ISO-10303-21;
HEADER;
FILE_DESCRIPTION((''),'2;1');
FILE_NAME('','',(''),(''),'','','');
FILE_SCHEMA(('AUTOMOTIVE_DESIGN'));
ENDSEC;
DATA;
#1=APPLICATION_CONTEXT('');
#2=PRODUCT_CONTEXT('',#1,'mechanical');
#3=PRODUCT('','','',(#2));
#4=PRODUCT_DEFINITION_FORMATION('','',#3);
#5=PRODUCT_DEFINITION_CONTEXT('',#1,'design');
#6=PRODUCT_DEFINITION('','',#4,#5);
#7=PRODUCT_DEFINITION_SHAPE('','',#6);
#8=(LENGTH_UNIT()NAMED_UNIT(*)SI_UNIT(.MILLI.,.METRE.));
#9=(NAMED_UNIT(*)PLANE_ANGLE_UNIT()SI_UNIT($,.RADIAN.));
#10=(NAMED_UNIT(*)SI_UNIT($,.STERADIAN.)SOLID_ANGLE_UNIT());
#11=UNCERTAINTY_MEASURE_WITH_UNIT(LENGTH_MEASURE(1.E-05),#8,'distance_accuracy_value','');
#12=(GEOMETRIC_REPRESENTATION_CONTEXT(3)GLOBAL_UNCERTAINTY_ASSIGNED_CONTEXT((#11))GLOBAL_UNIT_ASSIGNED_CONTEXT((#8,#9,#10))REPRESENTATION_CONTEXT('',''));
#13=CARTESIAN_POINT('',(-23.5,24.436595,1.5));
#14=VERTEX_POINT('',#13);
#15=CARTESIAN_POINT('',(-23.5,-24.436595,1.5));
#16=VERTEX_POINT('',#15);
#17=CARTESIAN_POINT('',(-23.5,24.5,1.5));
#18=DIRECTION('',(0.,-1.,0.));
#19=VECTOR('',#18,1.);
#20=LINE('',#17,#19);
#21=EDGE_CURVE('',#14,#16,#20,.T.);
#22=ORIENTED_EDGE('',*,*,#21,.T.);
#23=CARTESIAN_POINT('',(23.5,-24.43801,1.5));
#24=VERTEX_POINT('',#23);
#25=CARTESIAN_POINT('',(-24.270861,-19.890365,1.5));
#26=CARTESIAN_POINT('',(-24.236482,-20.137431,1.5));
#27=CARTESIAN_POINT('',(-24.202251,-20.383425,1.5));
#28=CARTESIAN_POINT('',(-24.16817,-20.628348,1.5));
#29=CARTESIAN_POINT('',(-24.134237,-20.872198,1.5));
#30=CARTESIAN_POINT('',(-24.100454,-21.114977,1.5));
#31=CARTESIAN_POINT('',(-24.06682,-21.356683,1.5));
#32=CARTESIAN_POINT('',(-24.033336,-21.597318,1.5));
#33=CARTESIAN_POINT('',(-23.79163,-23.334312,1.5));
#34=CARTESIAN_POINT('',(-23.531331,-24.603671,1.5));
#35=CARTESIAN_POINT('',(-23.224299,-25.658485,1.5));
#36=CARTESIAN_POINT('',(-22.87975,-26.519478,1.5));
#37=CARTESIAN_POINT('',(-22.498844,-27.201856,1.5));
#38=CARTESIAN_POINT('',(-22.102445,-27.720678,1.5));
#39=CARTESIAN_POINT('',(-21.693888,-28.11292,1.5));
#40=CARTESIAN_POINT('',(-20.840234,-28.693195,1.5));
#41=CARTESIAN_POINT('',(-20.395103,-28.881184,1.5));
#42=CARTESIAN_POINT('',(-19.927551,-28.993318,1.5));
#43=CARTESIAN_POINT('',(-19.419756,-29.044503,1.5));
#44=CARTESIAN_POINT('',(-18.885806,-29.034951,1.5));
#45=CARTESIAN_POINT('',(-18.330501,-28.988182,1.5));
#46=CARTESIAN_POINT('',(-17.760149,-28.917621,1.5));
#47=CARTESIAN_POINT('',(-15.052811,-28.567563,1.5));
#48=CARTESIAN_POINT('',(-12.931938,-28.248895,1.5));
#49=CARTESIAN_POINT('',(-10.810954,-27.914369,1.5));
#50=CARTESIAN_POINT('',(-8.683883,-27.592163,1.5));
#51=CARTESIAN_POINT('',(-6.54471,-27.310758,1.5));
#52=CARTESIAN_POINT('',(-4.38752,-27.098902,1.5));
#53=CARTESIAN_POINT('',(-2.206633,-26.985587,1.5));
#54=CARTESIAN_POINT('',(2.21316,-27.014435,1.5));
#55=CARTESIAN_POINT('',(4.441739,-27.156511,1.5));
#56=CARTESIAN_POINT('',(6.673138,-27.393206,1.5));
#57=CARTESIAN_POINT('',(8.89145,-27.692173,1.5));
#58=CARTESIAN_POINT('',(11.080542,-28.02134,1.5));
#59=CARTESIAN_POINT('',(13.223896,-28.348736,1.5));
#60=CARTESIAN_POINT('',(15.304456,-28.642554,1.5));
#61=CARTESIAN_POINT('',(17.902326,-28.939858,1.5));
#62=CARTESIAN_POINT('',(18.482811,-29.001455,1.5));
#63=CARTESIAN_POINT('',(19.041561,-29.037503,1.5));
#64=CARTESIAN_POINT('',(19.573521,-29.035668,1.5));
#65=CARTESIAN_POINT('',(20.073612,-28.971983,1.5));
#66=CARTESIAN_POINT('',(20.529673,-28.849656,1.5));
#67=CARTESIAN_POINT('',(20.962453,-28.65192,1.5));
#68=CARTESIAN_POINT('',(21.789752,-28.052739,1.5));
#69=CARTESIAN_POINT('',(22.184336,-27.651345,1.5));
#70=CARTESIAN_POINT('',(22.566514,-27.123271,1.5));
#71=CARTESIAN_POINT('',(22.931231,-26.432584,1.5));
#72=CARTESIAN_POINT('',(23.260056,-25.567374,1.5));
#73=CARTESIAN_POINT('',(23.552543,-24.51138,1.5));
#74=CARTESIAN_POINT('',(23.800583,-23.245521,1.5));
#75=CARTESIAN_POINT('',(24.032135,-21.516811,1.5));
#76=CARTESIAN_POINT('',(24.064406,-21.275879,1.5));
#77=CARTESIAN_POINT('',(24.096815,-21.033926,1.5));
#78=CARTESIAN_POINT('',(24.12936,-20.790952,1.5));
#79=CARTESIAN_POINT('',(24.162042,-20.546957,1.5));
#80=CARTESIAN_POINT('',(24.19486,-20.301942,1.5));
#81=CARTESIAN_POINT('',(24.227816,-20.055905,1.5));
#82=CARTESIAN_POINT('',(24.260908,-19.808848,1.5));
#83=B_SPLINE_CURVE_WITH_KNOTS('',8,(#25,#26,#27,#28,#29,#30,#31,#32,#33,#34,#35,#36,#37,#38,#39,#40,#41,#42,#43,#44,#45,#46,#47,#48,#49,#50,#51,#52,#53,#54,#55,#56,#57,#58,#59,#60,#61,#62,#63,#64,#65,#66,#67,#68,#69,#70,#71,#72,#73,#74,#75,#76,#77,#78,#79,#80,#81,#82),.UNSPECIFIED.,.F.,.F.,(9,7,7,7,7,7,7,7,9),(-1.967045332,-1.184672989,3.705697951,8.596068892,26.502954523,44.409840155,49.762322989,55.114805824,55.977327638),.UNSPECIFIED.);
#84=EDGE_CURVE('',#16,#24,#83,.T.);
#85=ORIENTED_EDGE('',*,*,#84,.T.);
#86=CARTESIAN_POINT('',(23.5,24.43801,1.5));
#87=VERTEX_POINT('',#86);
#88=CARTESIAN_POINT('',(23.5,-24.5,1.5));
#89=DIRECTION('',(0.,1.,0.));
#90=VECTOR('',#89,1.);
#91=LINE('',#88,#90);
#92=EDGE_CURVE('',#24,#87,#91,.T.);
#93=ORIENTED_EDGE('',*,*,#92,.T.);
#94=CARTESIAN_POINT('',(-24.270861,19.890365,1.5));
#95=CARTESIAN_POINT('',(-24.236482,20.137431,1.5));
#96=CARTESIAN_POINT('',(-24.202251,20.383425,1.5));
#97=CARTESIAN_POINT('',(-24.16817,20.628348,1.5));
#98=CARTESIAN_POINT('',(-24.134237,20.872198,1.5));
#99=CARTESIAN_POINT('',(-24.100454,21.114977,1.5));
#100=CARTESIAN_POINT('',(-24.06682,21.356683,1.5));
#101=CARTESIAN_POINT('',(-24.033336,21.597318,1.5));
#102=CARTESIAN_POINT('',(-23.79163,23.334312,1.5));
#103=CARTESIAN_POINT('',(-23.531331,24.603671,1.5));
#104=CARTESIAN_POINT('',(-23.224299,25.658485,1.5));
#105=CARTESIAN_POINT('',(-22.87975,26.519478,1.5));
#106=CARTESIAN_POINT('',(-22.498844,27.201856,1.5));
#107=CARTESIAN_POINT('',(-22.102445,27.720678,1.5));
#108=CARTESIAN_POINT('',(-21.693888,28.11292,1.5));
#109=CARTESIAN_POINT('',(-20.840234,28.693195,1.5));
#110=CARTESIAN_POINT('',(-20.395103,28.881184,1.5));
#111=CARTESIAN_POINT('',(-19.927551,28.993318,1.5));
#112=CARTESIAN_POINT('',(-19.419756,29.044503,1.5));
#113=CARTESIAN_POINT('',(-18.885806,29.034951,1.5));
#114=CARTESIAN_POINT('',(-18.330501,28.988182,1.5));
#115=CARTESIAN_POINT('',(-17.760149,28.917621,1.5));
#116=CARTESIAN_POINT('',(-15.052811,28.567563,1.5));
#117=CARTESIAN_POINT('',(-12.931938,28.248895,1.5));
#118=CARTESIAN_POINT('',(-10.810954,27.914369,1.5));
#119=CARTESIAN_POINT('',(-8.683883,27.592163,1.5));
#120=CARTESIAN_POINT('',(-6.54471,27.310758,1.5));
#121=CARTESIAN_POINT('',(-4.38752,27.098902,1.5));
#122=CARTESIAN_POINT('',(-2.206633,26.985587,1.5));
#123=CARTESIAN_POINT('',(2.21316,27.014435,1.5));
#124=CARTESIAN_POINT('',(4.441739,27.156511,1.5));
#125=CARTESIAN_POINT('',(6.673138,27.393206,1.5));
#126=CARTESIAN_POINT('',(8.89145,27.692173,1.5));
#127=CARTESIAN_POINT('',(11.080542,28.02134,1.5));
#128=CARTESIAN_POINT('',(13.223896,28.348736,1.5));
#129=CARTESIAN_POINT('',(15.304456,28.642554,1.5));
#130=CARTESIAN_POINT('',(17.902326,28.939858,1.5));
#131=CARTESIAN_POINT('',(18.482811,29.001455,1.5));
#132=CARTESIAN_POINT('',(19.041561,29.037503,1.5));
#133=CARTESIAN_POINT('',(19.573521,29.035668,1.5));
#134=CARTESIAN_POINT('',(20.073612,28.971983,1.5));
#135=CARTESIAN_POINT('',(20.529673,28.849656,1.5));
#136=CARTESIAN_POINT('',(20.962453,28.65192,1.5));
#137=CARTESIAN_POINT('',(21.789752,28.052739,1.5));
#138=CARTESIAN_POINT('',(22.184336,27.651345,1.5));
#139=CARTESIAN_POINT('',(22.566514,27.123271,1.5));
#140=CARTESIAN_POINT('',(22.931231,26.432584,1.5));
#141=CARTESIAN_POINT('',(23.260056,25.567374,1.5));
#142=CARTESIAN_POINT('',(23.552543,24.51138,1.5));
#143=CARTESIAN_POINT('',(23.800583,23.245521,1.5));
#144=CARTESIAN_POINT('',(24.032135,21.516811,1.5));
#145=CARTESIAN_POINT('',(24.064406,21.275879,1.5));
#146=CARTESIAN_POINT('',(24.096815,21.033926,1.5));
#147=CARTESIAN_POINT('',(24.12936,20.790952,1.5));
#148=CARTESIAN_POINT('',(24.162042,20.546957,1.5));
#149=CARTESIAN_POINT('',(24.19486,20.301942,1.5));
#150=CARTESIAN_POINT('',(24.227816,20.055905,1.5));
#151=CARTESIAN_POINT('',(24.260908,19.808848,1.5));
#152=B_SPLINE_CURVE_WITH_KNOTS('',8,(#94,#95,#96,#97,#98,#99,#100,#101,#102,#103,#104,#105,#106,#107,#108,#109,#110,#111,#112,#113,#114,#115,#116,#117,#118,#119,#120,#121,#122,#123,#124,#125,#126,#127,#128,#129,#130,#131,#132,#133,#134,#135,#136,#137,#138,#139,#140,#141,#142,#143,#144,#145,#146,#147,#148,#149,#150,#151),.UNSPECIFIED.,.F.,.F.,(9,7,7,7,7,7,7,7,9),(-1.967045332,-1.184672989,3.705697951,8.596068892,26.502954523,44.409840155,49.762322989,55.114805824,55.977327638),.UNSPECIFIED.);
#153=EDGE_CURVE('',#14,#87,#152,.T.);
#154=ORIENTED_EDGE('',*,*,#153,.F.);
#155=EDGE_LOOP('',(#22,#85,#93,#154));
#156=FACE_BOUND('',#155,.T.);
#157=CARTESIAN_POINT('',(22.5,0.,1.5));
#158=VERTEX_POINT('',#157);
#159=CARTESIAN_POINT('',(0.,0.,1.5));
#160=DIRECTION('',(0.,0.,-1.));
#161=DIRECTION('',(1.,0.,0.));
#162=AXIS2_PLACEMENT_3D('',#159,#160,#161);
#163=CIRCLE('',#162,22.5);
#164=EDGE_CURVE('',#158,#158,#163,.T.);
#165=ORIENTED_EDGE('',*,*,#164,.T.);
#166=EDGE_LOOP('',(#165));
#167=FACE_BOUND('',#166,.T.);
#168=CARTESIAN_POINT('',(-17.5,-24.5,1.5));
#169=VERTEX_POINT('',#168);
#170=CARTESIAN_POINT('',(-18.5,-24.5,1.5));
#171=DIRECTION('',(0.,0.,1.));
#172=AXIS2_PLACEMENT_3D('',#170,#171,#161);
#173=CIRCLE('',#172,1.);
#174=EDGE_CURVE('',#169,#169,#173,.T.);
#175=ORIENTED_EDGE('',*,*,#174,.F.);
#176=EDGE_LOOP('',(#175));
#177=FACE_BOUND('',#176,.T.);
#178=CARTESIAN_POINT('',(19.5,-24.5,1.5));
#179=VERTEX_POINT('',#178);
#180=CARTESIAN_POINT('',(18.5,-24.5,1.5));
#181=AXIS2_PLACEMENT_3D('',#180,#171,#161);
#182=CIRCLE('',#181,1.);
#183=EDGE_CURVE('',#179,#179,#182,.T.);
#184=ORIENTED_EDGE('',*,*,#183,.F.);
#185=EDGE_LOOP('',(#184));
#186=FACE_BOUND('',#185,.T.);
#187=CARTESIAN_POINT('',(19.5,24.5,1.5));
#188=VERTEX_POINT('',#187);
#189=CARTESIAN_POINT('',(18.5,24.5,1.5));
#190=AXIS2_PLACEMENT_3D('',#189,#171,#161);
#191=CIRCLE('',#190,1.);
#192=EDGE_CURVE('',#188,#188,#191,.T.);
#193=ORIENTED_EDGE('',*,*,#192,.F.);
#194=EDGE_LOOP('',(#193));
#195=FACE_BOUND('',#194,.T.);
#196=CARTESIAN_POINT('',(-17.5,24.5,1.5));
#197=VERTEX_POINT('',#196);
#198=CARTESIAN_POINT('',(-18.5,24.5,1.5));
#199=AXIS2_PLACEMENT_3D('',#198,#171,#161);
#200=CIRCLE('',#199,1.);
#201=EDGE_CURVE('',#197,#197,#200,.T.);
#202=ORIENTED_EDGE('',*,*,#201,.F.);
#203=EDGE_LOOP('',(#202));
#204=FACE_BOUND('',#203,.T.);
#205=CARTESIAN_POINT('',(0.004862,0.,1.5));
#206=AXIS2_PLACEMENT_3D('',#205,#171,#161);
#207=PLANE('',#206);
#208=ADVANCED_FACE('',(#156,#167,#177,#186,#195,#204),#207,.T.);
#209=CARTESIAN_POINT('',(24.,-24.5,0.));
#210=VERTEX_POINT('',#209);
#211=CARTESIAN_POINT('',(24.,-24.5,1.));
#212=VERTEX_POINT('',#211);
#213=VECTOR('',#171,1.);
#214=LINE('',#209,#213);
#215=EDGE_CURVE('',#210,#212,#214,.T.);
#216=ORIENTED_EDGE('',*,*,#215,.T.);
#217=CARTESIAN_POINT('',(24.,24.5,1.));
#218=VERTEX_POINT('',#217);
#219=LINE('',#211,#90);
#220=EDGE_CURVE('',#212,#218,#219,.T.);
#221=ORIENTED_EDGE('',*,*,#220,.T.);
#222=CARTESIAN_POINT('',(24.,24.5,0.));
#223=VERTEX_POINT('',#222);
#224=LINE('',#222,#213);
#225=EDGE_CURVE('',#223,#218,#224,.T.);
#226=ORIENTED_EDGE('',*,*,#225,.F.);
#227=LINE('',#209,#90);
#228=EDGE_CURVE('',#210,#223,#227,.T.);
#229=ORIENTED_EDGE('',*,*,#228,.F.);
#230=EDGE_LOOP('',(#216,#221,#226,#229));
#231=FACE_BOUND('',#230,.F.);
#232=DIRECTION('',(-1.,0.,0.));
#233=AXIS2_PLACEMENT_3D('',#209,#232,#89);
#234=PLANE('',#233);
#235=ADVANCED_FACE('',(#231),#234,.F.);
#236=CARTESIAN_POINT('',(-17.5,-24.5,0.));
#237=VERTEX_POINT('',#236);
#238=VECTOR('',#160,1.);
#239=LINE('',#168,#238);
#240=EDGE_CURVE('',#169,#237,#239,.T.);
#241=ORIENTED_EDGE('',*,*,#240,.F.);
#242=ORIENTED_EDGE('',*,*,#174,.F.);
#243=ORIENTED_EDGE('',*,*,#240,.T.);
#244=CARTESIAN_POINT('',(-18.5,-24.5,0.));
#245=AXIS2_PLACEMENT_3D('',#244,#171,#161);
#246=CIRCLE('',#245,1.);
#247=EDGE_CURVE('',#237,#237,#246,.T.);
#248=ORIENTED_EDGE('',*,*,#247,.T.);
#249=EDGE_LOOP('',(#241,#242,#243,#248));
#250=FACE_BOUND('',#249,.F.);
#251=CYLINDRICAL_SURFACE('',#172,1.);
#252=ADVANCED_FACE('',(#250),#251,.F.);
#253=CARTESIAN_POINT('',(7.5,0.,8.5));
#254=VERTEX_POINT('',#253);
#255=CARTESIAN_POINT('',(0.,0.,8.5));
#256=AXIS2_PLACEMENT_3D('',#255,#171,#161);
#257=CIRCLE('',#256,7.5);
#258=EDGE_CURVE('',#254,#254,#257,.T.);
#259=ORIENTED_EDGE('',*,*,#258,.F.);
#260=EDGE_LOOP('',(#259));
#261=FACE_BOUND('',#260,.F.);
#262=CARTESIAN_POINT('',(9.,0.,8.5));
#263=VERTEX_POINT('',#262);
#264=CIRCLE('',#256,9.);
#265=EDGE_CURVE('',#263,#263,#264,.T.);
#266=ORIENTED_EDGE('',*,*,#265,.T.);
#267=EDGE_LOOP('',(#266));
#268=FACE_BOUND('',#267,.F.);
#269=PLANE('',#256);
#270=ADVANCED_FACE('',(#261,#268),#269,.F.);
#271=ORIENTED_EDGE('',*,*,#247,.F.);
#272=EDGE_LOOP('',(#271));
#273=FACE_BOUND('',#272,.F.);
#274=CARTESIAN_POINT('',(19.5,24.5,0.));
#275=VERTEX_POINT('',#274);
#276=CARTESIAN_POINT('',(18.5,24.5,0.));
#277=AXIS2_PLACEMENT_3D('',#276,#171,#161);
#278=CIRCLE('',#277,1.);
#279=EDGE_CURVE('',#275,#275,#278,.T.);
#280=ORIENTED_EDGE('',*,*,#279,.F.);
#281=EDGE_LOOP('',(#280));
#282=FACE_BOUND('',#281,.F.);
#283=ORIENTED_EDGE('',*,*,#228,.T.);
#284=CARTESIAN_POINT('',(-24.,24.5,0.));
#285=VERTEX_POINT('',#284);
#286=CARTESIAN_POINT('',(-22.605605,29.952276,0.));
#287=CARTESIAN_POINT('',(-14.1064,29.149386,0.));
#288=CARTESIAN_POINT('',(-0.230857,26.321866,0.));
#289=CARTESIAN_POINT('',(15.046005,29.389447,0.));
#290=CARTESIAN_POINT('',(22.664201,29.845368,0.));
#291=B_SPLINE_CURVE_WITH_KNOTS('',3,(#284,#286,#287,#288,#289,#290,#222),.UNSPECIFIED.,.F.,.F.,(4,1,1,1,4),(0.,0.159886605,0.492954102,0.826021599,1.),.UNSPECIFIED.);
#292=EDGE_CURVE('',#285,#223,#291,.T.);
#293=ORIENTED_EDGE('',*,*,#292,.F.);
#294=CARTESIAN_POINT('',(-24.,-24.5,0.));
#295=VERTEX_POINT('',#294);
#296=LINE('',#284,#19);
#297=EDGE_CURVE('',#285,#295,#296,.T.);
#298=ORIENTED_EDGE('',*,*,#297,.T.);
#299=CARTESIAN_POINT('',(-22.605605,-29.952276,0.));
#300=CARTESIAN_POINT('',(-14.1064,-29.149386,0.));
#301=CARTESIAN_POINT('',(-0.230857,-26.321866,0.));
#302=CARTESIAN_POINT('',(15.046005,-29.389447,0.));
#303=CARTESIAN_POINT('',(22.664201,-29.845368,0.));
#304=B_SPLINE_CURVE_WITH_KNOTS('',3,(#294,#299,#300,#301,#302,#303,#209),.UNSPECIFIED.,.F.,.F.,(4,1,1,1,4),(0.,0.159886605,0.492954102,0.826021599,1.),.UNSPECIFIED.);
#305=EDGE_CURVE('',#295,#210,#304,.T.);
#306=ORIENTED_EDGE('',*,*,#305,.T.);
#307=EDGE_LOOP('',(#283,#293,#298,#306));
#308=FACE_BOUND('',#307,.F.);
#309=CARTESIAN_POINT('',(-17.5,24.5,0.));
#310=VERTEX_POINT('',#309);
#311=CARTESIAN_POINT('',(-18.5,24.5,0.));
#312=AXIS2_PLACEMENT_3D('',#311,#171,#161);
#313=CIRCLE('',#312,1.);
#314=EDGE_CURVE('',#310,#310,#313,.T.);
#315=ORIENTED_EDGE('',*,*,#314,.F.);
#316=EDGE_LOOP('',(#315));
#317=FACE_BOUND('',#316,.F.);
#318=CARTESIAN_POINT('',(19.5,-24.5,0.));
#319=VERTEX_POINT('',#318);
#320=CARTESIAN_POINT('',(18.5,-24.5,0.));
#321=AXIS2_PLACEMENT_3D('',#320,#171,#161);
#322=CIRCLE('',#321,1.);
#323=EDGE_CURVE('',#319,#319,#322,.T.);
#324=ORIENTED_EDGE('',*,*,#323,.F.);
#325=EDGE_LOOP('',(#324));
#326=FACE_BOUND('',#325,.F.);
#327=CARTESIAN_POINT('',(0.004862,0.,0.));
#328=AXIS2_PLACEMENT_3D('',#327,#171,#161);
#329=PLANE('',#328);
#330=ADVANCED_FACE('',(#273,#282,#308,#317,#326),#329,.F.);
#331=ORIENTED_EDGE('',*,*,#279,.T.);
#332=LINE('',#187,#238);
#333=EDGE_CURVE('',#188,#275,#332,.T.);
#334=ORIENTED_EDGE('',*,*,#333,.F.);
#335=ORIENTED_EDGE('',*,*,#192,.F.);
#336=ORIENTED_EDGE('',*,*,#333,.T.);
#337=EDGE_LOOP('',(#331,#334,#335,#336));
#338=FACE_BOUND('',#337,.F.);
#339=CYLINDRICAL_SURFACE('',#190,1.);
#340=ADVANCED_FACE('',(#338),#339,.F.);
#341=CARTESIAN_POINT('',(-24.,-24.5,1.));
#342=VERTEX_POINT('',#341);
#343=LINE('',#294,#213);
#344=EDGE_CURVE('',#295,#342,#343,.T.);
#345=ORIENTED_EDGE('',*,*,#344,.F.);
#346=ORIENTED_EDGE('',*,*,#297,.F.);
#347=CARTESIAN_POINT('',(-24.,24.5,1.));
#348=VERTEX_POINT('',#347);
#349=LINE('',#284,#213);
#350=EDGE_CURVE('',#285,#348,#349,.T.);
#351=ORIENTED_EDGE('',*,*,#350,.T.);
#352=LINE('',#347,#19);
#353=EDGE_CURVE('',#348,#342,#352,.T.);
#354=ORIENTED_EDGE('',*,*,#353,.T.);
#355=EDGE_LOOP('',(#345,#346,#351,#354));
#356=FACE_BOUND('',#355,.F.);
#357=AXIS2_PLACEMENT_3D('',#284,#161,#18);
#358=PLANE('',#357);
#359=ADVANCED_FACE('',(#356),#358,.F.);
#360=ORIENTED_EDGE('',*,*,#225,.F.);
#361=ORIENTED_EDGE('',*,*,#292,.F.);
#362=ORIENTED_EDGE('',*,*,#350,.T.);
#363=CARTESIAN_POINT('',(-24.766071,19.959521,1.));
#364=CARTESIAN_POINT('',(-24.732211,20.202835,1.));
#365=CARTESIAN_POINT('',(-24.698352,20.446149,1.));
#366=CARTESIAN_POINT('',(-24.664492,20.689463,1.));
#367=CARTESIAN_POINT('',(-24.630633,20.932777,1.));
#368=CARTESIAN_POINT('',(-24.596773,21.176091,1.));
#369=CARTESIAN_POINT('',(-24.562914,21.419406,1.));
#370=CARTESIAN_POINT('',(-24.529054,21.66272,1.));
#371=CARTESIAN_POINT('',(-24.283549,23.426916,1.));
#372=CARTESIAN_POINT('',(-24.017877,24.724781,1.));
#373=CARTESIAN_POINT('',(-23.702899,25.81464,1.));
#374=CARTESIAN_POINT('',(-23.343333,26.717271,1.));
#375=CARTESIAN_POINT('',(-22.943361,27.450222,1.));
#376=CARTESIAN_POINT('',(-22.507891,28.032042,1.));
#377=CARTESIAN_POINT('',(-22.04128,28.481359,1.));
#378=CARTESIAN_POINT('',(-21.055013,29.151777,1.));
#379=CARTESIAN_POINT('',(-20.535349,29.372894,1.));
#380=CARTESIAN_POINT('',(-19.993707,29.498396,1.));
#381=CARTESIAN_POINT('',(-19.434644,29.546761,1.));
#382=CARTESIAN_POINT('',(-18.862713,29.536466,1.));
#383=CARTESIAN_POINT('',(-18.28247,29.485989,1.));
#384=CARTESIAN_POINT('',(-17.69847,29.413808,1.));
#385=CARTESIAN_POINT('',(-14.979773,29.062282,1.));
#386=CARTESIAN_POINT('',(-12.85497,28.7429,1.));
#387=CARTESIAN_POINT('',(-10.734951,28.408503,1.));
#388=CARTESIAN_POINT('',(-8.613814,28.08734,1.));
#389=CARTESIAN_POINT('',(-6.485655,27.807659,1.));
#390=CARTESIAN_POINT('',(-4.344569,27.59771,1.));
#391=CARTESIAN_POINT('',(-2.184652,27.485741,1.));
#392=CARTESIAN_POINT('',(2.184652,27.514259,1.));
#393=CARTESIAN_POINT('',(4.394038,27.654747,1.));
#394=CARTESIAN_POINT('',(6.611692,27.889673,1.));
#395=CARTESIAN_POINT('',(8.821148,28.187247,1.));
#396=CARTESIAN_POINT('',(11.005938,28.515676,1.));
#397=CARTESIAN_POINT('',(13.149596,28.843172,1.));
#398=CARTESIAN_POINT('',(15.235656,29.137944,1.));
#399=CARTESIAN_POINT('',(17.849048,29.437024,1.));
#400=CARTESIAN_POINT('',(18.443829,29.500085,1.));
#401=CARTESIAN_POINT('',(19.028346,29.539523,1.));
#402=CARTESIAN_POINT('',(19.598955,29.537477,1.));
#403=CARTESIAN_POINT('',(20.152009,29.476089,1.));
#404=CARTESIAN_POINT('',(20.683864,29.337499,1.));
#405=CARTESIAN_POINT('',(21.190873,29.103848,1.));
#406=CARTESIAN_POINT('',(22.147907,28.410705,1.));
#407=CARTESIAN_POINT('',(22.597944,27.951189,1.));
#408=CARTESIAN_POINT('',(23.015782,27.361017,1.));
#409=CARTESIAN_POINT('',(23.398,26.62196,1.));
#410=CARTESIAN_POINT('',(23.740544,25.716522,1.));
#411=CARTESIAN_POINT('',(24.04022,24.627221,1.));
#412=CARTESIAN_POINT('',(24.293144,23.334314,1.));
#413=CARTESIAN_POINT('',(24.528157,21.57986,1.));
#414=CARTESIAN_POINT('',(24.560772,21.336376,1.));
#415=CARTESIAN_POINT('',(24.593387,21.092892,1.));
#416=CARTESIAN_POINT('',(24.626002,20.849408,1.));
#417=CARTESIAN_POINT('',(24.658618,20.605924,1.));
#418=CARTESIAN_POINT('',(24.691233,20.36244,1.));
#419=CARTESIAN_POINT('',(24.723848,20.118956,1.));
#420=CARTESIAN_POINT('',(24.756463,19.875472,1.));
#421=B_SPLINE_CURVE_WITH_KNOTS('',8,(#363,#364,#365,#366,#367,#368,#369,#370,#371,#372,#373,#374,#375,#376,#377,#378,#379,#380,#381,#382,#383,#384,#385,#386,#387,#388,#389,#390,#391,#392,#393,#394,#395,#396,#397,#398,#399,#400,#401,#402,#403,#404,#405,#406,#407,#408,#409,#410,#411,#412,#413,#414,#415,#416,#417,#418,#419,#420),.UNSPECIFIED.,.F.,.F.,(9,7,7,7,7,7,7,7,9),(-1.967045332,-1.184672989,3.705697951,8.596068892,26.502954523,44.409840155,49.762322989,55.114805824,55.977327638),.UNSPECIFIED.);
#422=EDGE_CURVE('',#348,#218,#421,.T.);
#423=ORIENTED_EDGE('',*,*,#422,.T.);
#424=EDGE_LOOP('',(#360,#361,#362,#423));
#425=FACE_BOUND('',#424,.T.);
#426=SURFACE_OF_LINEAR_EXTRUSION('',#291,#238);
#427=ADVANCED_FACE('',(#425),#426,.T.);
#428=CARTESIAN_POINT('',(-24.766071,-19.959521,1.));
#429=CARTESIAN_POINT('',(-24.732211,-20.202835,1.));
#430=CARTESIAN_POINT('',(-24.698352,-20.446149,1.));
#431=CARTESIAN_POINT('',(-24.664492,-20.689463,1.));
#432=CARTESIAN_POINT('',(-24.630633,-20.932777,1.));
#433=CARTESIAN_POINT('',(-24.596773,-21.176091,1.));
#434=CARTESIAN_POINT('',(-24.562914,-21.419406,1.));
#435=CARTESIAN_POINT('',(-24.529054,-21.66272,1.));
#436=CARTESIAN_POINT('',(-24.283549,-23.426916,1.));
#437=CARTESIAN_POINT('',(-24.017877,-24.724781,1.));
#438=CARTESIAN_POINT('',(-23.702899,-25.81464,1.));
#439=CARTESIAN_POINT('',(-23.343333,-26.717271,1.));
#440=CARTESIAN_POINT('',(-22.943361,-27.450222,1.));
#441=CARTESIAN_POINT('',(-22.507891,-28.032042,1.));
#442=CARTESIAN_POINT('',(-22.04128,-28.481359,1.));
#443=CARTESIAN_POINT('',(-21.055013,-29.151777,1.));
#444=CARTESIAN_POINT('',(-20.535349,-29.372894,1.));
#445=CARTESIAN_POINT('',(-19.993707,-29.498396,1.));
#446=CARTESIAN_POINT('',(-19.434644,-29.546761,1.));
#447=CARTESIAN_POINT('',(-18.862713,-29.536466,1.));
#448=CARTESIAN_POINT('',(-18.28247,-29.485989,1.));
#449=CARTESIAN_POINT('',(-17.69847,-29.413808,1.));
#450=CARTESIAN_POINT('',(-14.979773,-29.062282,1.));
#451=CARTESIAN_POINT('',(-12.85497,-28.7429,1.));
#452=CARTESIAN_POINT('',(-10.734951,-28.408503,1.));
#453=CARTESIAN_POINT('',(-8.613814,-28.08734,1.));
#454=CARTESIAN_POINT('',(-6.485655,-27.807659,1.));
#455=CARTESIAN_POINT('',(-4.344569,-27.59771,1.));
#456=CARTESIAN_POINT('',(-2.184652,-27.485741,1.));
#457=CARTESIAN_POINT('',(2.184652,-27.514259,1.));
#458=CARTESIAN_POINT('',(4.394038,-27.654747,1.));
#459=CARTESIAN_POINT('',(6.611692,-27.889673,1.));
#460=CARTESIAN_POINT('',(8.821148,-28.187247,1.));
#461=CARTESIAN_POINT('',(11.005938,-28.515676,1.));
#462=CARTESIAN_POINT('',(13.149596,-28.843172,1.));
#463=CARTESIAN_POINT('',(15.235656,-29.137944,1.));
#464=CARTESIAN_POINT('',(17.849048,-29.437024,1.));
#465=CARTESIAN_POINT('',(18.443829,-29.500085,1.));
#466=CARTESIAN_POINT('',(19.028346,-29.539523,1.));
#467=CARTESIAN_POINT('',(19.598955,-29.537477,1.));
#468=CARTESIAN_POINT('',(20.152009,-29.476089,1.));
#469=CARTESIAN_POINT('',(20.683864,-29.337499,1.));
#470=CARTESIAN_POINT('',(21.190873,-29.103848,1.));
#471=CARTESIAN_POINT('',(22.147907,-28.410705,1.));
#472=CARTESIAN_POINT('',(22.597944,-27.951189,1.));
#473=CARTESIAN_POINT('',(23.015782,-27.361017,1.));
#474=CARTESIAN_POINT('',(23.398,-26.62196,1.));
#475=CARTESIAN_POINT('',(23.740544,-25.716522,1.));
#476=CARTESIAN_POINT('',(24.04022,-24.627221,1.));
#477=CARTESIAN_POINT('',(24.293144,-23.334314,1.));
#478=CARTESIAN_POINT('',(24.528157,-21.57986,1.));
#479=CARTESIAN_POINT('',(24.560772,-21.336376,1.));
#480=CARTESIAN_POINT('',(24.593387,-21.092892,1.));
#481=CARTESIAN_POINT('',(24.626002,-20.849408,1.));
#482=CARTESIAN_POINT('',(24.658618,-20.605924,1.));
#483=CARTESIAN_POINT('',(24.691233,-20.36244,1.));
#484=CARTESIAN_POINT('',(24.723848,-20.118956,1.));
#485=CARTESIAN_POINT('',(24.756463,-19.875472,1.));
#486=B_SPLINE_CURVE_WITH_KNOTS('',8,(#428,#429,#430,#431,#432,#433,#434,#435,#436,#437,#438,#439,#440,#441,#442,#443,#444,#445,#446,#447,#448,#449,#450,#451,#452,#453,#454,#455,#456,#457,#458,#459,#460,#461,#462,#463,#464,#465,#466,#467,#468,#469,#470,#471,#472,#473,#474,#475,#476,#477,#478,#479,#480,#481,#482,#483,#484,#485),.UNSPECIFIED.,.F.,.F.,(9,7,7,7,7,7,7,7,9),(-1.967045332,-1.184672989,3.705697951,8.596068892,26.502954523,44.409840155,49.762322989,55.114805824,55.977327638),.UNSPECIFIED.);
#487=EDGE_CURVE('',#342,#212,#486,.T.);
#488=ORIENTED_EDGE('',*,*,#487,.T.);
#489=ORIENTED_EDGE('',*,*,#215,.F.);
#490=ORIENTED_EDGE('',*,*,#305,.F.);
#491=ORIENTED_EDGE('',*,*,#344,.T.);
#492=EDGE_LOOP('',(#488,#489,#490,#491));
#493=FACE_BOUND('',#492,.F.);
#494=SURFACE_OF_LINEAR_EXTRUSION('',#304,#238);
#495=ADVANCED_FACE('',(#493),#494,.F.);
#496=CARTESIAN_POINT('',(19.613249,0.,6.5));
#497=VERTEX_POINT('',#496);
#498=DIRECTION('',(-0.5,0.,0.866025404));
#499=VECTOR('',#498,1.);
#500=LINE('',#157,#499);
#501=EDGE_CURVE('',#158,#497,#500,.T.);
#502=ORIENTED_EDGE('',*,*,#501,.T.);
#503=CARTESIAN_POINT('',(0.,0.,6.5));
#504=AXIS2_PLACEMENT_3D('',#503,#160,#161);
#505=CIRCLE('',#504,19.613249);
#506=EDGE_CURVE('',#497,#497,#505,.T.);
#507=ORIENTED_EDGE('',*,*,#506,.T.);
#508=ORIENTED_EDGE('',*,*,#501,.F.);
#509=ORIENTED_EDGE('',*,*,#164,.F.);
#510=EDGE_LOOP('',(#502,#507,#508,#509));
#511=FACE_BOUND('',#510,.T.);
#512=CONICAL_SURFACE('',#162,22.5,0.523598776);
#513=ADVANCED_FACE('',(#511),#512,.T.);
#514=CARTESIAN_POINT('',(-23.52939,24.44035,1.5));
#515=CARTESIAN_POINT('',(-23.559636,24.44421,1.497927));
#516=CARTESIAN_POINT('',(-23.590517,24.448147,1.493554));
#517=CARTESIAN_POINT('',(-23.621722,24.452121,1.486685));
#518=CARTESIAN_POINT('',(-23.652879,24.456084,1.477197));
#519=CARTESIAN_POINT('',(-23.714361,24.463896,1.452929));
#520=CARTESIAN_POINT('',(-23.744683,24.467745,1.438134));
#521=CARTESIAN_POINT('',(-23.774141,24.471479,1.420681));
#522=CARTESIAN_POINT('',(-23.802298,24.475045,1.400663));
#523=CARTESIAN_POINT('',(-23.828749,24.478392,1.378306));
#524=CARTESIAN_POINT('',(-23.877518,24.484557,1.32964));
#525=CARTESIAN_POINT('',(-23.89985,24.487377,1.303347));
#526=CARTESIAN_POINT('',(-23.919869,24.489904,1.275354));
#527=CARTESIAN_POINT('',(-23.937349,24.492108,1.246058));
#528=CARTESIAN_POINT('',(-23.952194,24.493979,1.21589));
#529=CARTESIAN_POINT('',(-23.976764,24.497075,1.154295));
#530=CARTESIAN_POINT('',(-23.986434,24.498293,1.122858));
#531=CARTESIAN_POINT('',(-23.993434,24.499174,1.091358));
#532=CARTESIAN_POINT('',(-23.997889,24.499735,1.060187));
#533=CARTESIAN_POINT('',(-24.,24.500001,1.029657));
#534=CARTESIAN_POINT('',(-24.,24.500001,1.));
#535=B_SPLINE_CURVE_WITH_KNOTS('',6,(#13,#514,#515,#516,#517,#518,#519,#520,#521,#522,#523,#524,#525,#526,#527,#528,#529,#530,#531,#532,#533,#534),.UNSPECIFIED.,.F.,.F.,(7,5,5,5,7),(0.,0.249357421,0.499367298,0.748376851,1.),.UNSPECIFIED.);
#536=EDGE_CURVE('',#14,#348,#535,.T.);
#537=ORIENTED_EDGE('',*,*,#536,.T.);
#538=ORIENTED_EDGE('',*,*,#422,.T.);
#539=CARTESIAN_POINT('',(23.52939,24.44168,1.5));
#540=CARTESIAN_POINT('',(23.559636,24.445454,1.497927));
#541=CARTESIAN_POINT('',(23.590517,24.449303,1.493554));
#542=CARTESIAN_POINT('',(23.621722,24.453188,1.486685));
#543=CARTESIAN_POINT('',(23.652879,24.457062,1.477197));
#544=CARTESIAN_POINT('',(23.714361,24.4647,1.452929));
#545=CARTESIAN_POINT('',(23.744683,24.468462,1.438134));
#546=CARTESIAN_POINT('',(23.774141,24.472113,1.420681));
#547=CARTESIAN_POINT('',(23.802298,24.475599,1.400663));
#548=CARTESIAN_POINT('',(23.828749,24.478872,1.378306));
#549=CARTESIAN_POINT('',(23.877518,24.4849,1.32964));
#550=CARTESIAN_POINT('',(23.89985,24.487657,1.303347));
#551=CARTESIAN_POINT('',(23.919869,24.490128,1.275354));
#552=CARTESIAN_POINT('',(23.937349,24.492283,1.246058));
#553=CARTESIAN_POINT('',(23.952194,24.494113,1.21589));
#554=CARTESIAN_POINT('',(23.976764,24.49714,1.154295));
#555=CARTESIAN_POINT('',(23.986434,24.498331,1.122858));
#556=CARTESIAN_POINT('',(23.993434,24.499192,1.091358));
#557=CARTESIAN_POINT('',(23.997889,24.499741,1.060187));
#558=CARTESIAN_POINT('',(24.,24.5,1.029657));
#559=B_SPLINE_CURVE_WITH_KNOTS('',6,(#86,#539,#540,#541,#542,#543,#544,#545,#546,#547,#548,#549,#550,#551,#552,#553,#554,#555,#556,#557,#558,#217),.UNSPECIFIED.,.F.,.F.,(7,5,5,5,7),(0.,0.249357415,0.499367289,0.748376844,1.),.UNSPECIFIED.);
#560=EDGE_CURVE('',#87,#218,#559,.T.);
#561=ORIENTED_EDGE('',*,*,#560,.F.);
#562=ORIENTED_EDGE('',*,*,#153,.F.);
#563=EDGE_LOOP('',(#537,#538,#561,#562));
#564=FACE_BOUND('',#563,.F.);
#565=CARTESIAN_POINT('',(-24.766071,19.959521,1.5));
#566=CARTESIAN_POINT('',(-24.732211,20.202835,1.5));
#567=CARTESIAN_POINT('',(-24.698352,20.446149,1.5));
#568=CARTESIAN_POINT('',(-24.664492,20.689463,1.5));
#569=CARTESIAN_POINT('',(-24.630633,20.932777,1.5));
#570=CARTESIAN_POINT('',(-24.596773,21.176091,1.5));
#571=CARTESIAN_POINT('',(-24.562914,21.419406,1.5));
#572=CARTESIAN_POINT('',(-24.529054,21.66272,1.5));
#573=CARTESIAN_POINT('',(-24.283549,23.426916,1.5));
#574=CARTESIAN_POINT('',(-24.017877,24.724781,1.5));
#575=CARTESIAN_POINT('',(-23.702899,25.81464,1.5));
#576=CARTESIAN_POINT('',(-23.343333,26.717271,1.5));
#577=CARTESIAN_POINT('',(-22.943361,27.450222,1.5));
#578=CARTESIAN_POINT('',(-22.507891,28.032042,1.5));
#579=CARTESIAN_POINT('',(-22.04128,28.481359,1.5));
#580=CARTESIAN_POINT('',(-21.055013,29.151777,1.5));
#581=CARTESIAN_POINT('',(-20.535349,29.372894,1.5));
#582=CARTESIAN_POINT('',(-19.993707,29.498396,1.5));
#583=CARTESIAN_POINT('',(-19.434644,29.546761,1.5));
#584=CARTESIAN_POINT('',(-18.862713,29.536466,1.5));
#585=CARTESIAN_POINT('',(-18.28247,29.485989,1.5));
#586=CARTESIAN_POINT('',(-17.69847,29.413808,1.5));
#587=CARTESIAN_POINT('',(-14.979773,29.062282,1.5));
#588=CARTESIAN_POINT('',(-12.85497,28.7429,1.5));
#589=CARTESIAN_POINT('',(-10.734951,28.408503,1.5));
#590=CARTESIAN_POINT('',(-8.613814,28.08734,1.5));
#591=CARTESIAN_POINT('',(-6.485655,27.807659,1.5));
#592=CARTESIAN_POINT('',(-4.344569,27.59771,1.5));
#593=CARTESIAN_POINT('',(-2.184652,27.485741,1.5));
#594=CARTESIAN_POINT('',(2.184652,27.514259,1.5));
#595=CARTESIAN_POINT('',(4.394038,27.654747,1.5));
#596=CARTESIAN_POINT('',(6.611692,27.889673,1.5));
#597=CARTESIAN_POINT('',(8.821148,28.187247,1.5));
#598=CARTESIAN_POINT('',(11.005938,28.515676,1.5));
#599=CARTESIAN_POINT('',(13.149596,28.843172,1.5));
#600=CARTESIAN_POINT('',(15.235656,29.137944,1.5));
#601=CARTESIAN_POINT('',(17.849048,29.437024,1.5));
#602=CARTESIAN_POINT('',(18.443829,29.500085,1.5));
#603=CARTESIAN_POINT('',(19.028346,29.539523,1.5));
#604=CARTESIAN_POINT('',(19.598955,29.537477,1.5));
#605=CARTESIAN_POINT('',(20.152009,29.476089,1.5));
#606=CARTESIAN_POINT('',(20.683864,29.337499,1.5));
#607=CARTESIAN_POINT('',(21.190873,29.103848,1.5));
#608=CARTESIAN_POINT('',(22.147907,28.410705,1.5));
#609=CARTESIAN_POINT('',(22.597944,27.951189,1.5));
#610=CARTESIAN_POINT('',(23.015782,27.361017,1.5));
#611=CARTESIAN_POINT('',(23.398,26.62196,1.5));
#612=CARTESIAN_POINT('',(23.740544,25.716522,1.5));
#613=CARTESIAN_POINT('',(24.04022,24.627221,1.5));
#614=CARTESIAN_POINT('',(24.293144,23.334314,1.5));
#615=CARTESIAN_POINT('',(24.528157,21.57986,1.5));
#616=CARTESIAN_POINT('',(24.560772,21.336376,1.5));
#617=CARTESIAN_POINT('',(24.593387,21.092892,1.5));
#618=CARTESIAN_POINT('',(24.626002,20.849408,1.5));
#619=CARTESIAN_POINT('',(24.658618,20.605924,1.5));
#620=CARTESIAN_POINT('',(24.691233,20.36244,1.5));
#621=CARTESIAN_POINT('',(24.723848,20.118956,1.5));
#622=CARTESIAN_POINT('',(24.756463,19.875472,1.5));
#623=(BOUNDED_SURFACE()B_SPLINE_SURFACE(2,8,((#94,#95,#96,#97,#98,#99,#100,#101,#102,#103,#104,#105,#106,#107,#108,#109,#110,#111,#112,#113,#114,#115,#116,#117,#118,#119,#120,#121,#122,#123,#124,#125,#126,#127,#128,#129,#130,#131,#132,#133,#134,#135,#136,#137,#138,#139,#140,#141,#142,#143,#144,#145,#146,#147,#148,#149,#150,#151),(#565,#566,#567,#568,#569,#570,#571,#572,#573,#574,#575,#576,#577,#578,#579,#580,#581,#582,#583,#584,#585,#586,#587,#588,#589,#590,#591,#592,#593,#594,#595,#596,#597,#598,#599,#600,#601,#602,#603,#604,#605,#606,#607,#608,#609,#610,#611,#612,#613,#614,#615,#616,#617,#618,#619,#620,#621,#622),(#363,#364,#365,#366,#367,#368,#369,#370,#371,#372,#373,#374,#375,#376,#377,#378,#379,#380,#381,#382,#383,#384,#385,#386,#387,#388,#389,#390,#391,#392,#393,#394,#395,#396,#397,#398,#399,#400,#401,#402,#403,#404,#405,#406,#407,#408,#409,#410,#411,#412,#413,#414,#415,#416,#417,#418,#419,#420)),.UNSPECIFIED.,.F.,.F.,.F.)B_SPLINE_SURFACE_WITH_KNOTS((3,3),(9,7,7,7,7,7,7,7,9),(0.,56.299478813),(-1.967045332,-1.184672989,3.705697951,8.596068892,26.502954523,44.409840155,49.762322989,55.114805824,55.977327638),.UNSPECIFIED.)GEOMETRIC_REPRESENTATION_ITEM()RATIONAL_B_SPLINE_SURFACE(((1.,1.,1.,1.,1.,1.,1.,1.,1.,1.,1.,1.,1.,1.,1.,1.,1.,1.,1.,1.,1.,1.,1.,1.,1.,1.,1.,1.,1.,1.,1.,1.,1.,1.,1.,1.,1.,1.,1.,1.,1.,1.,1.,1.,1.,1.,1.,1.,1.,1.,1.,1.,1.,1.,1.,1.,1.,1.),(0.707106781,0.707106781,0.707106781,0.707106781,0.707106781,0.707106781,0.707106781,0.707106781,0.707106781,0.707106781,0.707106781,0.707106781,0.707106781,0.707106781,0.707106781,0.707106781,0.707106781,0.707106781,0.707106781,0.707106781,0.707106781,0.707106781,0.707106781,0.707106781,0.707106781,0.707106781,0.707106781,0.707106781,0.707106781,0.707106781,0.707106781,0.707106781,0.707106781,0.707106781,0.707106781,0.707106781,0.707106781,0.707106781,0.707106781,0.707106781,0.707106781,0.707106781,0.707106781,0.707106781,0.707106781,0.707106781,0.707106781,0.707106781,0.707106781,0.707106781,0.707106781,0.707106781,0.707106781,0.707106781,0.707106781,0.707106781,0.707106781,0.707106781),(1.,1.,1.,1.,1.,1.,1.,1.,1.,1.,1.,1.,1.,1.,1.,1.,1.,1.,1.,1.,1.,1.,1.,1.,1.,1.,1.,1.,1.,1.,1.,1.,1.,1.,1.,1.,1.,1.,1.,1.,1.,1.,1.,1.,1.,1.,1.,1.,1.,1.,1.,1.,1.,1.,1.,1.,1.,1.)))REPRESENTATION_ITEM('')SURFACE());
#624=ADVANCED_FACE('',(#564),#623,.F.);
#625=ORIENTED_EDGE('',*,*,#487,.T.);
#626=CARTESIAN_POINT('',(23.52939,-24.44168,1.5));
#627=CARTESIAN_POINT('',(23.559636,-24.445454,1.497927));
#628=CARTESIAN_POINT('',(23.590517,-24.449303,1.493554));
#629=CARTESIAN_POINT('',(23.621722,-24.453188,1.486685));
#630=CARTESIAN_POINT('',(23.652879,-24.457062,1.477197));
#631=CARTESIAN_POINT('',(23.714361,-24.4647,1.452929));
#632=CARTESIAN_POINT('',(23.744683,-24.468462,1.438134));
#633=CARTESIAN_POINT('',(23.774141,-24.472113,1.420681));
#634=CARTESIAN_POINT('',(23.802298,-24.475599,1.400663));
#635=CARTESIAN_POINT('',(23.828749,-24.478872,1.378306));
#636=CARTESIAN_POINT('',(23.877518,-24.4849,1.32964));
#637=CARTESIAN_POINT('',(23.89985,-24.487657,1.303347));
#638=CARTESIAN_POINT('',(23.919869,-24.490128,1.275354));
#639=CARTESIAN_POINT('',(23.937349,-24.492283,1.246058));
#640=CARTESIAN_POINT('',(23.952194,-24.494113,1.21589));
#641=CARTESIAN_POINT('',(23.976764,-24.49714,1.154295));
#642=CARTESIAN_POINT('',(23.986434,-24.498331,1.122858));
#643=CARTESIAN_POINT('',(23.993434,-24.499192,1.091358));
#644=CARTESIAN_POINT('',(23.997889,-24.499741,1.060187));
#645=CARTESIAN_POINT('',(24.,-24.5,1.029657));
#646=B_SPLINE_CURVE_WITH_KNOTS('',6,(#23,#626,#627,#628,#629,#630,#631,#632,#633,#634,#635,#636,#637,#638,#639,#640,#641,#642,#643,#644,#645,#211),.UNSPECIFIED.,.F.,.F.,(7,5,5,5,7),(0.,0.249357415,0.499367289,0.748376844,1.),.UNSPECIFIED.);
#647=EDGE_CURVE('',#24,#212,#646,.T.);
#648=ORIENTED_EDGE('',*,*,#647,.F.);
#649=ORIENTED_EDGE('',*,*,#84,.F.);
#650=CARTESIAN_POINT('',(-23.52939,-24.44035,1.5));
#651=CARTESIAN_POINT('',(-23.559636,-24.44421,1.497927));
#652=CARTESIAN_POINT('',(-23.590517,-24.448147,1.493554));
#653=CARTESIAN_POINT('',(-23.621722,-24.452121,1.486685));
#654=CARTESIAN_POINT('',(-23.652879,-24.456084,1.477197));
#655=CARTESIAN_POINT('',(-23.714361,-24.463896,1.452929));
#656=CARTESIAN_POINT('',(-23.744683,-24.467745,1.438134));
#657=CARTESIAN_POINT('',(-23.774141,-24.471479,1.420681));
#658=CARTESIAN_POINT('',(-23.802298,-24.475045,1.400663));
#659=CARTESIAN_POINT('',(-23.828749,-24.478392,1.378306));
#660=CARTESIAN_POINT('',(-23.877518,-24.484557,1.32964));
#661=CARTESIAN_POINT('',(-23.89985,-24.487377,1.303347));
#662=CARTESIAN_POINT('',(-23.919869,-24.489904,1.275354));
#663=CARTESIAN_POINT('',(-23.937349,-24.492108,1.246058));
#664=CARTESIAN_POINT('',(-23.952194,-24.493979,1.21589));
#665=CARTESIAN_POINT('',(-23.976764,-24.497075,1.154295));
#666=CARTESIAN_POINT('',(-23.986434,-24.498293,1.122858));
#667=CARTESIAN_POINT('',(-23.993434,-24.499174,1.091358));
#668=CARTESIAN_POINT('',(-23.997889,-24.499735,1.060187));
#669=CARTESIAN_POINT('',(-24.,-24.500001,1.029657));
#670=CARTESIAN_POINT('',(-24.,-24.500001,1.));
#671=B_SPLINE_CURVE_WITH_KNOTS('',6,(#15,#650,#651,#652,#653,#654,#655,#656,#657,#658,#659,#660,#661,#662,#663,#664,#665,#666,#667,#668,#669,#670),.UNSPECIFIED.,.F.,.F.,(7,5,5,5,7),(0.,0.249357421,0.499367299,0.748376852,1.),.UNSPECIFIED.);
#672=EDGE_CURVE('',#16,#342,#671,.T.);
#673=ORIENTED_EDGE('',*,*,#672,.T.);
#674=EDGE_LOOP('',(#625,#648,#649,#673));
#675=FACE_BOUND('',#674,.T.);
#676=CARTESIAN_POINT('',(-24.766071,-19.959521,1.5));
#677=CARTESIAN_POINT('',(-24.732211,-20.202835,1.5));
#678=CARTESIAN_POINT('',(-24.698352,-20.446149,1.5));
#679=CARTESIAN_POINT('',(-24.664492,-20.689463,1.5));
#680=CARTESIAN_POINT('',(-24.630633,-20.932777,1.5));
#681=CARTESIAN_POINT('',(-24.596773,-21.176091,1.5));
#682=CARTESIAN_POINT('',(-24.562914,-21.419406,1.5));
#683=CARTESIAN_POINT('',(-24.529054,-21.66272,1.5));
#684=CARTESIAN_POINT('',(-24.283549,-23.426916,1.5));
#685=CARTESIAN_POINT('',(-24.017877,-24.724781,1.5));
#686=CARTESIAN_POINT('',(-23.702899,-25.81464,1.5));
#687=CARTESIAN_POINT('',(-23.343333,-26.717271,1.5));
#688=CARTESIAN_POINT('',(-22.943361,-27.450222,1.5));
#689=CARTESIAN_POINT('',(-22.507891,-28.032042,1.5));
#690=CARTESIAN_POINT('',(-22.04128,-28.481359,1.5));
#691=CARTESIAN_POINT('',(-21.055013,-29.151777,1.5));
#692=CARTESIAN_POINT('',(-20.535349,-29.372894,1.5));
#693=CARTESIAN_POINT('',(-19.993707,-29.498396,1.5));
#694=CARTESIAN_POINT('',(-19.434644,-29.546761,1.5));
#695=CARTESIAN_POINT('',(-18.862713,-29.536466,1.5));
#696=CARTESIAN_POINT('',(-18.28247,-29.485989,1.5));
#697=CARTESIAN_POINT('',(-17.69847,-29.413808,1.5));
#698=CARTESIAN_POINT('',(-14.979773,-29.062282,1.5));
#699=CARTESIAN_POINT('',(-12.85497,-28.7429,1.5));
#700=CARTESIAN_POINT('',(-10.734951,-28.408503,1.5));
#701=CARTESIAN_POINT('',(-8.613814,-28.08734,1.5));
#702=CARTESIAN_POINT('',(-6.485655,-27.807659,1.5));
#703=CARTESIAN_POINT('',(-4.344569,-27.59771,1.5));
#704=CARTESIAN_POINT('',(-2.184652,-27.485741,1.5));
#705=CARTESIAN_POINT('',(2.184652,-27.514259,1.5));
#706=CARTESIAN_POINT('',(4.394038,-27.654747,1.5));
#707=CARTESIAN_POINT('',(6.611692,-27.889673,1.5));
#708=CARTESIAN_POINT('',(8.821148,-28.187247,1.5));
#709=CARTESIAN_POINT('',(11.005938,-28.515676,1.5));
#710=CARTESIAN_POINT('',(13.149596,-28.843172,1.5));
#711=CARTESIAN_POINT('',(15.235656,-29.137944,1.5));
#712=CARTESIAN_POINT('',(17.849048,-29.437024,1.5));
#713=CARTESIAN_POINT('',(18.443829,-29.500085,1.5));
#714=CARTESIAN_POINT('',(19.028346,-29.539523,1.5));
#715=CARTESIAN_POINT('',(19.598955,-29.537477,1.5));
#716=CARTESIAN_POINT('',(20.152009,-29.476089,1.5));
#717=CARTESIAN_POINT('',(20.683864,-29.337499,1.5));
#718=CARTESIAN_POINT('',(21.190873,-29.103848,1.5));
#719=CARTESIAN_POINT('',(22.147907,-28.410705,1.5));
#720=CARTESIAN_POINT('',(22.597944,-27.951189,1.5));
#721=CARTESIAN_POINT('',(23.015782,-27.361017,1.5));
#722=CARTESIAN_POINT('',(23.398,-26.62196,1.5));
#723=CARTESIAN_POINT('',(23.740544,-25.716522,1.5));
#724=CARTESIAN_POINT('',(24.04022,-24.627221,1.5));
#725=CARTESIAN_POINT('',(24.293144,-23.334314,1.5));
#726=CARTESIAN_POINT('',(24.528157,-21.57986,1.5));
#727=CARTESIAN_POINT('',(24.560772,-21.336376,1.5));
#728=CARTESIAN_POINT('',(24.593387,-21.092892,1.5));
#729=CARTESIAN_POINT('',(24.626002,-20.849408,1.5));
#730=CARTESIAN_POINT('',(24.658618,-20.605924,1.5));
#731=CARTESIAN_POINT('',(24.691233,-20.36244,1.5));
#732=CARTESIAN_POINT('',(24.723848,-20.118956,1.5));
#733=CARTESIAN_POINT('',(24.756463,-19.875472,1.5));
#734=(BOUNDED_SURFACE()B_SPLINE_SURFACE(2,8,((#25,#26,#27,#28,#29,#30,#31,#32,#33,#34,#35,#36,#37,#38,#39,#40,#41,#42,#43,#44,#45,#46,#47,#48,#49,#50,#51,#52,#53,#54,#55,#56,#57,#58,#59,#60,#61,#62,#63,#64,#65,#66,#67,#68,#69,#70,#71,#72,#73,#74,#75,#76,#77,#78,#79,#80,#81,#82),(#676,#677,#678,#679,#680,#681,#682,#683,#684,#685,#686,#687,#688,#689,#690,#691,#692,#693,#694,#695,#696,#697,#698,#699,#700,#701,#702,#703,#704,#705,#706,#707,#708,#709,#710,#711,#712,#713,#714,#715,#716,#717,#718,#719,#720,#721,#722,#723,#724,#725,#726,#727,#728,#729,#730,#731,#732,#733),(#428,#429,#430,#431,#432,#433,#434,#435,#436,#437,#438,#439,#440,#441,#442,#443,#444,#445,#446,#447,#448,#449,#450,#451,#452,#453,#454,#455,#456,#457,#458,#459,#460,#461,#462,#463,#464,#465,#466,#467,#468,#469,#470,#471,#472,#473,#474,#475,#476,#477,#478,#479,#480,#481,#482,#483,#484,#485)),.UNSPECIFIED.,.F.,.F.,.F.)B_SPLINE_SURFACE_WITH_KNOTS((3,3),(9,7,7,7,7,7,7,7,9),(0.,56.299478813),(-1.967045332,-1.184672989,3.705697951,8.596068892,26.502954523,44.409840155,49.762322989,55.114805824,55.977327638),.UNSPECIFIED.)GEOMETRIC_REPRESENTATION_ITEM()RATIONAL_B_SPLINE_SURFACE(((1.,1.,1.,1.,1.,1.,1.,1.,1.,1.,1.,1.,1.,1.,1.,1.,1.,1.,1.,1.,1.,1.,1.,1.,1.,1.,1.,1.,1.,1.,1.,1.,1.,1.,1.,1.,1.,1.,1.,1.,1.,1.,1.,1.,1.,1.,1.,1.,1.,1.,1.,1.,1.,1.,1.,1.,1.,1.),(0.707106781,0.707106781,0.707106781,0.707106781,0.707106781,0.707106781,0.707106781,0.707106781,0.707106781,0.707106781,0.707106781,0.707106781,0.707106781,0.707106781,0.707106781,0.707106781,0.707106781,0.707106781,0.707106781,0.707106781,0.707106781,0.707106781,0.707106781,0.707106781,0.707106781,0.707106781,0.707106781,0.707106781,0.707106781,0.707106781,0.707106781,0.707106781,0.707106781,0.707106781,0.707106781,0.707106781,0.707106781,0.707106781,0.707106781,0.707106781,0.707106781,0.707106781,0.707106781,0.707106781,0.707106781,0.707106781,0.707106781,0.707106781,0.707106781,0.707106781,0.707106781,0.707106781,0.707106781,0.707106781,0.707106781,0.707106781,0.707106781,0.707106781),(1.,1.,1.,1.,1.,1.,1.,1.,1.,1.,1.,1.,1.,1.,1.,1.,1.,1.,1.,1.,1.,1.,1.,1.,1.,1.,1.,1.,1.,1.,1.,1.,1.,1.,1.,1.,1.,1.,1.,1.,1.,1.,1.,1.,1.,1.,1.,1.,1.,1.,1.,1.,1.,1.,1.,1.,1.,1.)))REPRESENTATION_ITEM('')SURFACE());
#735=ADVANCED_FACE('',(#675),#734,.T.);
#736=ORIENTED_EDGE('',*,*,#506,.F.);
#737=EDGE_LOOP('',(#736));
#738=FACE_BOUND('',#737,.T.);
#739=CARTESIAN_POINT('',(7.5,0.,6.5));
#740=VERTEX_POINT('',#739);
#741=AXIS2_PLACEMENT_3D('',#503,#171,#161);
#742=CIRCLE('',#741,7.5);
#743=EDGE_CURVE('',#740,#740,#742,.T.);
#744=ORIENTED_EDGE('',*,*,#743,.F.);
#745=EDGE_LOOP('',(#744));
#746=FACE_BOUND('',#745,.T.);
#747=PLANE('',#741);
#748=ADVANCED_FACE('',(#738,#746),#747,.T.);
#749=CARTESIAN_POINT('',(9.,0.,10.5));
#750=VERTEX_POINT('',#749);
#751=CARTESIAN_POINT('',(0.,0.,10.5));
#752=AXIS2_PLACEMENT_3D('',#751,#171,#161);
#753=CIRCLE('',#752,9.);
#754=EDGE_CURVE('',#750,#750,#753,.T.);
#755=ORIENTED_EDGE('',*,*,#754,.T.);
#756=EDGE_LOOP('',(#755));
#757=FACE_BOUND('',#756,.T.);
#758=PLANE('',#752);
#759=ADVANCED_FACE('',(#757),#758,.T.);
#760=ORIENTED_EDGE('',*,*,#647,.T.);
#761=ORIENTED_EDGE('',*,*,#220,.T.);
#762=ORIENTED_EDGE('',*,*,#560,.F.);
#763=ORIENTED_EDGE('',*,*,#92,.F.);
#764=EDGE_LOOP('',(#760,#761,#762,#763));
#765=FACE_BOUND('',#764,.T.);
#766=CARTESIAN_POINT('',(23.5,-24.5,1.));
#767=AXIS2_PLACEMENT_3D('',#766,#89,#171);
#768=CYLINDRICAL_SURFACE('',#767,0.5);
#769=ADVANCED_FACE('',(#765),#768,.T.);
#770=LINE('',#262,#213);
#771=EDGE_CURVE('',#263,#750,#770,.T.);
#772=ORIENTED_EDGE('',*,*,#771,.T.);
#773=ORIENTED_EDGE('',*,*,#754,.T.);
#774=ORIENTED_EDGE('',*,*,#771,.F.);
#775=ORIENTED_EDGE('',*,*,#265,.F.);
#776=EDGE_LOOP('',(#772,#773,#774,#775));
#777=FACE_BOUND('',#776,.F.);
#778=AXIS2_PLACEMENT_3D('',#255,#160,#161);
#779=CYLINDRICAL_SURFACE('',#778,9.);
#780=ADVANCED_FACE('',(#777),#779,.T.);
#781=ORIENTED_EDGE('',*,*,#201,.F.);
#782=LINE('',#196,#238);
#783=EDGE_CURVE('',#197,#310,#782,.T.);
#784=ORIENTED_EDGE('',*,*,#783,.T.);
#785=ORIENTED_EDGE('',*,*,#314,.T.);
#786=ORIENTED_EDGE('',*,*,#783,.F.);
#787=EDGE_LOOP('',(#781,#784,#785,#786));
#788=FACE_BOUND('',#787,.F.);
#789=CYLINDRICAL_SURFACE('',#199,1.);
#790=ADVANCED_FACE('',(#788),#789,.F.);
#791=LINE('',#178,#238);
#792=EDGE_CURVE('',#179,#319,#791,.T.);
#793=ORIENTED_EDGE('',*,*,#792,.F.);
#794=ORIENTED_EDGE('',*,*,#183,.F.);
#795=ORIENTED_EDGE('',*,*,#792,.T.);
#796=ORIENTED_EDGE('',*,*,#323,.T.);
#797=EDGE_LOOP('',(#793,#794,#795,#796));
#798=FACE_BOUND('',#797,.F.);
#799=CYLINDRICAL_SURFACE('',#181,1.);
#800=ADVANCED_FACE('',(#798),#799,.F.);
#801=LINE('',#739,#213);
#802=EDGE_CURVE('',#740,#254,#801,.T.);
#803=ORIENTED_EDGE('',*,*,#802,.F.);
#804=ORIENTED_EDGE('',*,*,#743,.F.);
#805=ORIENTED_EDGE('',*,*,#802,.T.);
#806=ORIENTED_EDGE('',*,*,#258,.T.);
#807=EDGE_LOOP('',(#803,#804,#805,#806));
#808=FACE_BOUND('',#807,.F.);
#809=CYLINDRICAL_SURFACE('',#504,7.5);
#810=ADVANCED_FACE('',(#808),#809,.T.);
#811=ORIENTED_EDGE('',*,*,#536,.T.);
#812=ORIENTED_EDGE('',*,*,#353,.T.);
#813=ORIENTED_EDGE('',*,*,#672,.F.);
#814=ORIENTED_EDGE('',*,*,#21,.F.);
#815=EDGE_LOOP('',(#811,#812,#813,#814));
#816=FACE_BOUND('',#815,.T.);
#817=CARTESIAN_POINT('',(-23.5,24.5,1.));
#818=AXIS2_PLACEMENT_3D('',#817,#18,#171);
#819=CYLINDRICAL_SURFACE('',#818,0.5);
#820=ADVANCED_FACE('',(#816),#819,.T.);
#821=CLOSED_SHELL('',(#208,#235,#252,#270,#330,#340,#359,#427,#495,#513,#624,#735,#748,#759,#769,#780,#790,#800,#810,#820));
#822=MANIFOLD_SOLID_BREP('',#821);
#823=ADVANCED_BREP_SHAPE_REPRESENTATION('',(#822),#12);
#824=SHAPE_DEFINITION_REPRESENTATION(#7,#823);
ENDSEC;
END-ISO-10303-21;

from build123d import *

# Parameters (mm, degrees)
BOSS_EXTRUDE1_DEPTH = 1.5
SKETCH2_R           = 22.5
BOSS_EXTRUDE4_DEPTH = 5
BOSS_EXTRUDE4_TAPER = 30
SKETCH3_R           = 7.5
BOSS_EXTRUDE5_DEPTH = 2
SKETCH4_R           = 9
BOSS_EXTRUDE7_DEPTH = 2
FILLET4_R           = 0.5
SKETCH5_R           = 1
CUT_EXTRUDE1_DEPTH  = 2


with BuildPart() as part:
    # Sketch1 → Boss-Extrude1 (new body)
    with BuildSketch(Plane.XY):
        with BuildLine():
            Line((-24, 24.5), (-24, -24.5))
            add(Edge.make_bspline(
                [(-24, -24.5), (-22.605605166, -29.952275609), (-14.106399585, -29.149385859), (-0.230857067, -26.321865732), (15.046005443, -29.389446711), (22.664200818, -29.845368103), (24, -24.5)],
                knots=[0, 0, 0, 0, 0.159886605, 0.492954102, 0.826021599, 1, 1, 1, 1], degree=3))
            Line((24, -24.5), (24, 24.5))
            add(Edge.make_bspline(
                [(-24, 24.5), (-22.605605166, 29.952275609), (-14.106399585, 29.149385859), (-0.230857067, 26.321865732), (15.046005443, 29.389446711), (22.664200818, 29.845368103), (24, 24.5)],
                knots=[0, 0, 0, 0, 0.159886605, 0.492954102, 0.826021599, 1, 1, 1, 1], degree=3))
        make_face()
    extrude(amount=BOSS_EXTRUDE1_DEPTH)

    # Sketch2 → Boss-Extrude4 (add)
    with BuildSketch(Plane.XY.offset(1.5)):
        Circle(SKETCH2_R)
    extrude(amount=BOSS_EXTRUDE4_DEPTH, taper=BOSS_EXTRUDE4_TAPER)

    # Sketch3 → Boss-Extrude5 (add)
    with BuildSketch(Plane.XY.offset(6.5)):
        Circle(SKETCH3_R)
    extrude(amount=BOSS_EXTRUDE5_DEPTH)

    # Sketch4 → Boss-Extrude7 (add)
    with BuildSketch(Plane.XY.offset(8.5)):
        Circle(SKETCH4_R)
    extrude(amount=BOSS_EXTRUDE7_DEPTH)

    # Fillet4
    fillet4_edges = [part.edges().sort_by_distance(p)[0] for p in [
        (-24, 0, 1.5),
        (0.007188855, 27.500047519, 1.5),
        (0.007188855, -27.500047519, 1.5),
        (24, 0, 1.5),
    ]]
    fillet(fillet4_edges, radius=FILLET4_R)

    # Sketch5 → Cut-Extrude1 (cut)
    with BuildSketch(Plane.XY.offset(1.5)):
        with Locations((18.5, -24.5)):
            Circle(SKETCH5_R)
        with Locations((-18.5, -24.5)):
            Circle(SKETCH5_R)
        with Locations((18.5, 24.5)):
            Circle(SKETCH5_R)
        with Locations((-18.5, 24.5)):
            Circle(SKETCH5_R)
    extrude(amount=-CUT_EXTRUDE1_DEPTH, mode=Mode.SUBTRACT)


solid = part.part
